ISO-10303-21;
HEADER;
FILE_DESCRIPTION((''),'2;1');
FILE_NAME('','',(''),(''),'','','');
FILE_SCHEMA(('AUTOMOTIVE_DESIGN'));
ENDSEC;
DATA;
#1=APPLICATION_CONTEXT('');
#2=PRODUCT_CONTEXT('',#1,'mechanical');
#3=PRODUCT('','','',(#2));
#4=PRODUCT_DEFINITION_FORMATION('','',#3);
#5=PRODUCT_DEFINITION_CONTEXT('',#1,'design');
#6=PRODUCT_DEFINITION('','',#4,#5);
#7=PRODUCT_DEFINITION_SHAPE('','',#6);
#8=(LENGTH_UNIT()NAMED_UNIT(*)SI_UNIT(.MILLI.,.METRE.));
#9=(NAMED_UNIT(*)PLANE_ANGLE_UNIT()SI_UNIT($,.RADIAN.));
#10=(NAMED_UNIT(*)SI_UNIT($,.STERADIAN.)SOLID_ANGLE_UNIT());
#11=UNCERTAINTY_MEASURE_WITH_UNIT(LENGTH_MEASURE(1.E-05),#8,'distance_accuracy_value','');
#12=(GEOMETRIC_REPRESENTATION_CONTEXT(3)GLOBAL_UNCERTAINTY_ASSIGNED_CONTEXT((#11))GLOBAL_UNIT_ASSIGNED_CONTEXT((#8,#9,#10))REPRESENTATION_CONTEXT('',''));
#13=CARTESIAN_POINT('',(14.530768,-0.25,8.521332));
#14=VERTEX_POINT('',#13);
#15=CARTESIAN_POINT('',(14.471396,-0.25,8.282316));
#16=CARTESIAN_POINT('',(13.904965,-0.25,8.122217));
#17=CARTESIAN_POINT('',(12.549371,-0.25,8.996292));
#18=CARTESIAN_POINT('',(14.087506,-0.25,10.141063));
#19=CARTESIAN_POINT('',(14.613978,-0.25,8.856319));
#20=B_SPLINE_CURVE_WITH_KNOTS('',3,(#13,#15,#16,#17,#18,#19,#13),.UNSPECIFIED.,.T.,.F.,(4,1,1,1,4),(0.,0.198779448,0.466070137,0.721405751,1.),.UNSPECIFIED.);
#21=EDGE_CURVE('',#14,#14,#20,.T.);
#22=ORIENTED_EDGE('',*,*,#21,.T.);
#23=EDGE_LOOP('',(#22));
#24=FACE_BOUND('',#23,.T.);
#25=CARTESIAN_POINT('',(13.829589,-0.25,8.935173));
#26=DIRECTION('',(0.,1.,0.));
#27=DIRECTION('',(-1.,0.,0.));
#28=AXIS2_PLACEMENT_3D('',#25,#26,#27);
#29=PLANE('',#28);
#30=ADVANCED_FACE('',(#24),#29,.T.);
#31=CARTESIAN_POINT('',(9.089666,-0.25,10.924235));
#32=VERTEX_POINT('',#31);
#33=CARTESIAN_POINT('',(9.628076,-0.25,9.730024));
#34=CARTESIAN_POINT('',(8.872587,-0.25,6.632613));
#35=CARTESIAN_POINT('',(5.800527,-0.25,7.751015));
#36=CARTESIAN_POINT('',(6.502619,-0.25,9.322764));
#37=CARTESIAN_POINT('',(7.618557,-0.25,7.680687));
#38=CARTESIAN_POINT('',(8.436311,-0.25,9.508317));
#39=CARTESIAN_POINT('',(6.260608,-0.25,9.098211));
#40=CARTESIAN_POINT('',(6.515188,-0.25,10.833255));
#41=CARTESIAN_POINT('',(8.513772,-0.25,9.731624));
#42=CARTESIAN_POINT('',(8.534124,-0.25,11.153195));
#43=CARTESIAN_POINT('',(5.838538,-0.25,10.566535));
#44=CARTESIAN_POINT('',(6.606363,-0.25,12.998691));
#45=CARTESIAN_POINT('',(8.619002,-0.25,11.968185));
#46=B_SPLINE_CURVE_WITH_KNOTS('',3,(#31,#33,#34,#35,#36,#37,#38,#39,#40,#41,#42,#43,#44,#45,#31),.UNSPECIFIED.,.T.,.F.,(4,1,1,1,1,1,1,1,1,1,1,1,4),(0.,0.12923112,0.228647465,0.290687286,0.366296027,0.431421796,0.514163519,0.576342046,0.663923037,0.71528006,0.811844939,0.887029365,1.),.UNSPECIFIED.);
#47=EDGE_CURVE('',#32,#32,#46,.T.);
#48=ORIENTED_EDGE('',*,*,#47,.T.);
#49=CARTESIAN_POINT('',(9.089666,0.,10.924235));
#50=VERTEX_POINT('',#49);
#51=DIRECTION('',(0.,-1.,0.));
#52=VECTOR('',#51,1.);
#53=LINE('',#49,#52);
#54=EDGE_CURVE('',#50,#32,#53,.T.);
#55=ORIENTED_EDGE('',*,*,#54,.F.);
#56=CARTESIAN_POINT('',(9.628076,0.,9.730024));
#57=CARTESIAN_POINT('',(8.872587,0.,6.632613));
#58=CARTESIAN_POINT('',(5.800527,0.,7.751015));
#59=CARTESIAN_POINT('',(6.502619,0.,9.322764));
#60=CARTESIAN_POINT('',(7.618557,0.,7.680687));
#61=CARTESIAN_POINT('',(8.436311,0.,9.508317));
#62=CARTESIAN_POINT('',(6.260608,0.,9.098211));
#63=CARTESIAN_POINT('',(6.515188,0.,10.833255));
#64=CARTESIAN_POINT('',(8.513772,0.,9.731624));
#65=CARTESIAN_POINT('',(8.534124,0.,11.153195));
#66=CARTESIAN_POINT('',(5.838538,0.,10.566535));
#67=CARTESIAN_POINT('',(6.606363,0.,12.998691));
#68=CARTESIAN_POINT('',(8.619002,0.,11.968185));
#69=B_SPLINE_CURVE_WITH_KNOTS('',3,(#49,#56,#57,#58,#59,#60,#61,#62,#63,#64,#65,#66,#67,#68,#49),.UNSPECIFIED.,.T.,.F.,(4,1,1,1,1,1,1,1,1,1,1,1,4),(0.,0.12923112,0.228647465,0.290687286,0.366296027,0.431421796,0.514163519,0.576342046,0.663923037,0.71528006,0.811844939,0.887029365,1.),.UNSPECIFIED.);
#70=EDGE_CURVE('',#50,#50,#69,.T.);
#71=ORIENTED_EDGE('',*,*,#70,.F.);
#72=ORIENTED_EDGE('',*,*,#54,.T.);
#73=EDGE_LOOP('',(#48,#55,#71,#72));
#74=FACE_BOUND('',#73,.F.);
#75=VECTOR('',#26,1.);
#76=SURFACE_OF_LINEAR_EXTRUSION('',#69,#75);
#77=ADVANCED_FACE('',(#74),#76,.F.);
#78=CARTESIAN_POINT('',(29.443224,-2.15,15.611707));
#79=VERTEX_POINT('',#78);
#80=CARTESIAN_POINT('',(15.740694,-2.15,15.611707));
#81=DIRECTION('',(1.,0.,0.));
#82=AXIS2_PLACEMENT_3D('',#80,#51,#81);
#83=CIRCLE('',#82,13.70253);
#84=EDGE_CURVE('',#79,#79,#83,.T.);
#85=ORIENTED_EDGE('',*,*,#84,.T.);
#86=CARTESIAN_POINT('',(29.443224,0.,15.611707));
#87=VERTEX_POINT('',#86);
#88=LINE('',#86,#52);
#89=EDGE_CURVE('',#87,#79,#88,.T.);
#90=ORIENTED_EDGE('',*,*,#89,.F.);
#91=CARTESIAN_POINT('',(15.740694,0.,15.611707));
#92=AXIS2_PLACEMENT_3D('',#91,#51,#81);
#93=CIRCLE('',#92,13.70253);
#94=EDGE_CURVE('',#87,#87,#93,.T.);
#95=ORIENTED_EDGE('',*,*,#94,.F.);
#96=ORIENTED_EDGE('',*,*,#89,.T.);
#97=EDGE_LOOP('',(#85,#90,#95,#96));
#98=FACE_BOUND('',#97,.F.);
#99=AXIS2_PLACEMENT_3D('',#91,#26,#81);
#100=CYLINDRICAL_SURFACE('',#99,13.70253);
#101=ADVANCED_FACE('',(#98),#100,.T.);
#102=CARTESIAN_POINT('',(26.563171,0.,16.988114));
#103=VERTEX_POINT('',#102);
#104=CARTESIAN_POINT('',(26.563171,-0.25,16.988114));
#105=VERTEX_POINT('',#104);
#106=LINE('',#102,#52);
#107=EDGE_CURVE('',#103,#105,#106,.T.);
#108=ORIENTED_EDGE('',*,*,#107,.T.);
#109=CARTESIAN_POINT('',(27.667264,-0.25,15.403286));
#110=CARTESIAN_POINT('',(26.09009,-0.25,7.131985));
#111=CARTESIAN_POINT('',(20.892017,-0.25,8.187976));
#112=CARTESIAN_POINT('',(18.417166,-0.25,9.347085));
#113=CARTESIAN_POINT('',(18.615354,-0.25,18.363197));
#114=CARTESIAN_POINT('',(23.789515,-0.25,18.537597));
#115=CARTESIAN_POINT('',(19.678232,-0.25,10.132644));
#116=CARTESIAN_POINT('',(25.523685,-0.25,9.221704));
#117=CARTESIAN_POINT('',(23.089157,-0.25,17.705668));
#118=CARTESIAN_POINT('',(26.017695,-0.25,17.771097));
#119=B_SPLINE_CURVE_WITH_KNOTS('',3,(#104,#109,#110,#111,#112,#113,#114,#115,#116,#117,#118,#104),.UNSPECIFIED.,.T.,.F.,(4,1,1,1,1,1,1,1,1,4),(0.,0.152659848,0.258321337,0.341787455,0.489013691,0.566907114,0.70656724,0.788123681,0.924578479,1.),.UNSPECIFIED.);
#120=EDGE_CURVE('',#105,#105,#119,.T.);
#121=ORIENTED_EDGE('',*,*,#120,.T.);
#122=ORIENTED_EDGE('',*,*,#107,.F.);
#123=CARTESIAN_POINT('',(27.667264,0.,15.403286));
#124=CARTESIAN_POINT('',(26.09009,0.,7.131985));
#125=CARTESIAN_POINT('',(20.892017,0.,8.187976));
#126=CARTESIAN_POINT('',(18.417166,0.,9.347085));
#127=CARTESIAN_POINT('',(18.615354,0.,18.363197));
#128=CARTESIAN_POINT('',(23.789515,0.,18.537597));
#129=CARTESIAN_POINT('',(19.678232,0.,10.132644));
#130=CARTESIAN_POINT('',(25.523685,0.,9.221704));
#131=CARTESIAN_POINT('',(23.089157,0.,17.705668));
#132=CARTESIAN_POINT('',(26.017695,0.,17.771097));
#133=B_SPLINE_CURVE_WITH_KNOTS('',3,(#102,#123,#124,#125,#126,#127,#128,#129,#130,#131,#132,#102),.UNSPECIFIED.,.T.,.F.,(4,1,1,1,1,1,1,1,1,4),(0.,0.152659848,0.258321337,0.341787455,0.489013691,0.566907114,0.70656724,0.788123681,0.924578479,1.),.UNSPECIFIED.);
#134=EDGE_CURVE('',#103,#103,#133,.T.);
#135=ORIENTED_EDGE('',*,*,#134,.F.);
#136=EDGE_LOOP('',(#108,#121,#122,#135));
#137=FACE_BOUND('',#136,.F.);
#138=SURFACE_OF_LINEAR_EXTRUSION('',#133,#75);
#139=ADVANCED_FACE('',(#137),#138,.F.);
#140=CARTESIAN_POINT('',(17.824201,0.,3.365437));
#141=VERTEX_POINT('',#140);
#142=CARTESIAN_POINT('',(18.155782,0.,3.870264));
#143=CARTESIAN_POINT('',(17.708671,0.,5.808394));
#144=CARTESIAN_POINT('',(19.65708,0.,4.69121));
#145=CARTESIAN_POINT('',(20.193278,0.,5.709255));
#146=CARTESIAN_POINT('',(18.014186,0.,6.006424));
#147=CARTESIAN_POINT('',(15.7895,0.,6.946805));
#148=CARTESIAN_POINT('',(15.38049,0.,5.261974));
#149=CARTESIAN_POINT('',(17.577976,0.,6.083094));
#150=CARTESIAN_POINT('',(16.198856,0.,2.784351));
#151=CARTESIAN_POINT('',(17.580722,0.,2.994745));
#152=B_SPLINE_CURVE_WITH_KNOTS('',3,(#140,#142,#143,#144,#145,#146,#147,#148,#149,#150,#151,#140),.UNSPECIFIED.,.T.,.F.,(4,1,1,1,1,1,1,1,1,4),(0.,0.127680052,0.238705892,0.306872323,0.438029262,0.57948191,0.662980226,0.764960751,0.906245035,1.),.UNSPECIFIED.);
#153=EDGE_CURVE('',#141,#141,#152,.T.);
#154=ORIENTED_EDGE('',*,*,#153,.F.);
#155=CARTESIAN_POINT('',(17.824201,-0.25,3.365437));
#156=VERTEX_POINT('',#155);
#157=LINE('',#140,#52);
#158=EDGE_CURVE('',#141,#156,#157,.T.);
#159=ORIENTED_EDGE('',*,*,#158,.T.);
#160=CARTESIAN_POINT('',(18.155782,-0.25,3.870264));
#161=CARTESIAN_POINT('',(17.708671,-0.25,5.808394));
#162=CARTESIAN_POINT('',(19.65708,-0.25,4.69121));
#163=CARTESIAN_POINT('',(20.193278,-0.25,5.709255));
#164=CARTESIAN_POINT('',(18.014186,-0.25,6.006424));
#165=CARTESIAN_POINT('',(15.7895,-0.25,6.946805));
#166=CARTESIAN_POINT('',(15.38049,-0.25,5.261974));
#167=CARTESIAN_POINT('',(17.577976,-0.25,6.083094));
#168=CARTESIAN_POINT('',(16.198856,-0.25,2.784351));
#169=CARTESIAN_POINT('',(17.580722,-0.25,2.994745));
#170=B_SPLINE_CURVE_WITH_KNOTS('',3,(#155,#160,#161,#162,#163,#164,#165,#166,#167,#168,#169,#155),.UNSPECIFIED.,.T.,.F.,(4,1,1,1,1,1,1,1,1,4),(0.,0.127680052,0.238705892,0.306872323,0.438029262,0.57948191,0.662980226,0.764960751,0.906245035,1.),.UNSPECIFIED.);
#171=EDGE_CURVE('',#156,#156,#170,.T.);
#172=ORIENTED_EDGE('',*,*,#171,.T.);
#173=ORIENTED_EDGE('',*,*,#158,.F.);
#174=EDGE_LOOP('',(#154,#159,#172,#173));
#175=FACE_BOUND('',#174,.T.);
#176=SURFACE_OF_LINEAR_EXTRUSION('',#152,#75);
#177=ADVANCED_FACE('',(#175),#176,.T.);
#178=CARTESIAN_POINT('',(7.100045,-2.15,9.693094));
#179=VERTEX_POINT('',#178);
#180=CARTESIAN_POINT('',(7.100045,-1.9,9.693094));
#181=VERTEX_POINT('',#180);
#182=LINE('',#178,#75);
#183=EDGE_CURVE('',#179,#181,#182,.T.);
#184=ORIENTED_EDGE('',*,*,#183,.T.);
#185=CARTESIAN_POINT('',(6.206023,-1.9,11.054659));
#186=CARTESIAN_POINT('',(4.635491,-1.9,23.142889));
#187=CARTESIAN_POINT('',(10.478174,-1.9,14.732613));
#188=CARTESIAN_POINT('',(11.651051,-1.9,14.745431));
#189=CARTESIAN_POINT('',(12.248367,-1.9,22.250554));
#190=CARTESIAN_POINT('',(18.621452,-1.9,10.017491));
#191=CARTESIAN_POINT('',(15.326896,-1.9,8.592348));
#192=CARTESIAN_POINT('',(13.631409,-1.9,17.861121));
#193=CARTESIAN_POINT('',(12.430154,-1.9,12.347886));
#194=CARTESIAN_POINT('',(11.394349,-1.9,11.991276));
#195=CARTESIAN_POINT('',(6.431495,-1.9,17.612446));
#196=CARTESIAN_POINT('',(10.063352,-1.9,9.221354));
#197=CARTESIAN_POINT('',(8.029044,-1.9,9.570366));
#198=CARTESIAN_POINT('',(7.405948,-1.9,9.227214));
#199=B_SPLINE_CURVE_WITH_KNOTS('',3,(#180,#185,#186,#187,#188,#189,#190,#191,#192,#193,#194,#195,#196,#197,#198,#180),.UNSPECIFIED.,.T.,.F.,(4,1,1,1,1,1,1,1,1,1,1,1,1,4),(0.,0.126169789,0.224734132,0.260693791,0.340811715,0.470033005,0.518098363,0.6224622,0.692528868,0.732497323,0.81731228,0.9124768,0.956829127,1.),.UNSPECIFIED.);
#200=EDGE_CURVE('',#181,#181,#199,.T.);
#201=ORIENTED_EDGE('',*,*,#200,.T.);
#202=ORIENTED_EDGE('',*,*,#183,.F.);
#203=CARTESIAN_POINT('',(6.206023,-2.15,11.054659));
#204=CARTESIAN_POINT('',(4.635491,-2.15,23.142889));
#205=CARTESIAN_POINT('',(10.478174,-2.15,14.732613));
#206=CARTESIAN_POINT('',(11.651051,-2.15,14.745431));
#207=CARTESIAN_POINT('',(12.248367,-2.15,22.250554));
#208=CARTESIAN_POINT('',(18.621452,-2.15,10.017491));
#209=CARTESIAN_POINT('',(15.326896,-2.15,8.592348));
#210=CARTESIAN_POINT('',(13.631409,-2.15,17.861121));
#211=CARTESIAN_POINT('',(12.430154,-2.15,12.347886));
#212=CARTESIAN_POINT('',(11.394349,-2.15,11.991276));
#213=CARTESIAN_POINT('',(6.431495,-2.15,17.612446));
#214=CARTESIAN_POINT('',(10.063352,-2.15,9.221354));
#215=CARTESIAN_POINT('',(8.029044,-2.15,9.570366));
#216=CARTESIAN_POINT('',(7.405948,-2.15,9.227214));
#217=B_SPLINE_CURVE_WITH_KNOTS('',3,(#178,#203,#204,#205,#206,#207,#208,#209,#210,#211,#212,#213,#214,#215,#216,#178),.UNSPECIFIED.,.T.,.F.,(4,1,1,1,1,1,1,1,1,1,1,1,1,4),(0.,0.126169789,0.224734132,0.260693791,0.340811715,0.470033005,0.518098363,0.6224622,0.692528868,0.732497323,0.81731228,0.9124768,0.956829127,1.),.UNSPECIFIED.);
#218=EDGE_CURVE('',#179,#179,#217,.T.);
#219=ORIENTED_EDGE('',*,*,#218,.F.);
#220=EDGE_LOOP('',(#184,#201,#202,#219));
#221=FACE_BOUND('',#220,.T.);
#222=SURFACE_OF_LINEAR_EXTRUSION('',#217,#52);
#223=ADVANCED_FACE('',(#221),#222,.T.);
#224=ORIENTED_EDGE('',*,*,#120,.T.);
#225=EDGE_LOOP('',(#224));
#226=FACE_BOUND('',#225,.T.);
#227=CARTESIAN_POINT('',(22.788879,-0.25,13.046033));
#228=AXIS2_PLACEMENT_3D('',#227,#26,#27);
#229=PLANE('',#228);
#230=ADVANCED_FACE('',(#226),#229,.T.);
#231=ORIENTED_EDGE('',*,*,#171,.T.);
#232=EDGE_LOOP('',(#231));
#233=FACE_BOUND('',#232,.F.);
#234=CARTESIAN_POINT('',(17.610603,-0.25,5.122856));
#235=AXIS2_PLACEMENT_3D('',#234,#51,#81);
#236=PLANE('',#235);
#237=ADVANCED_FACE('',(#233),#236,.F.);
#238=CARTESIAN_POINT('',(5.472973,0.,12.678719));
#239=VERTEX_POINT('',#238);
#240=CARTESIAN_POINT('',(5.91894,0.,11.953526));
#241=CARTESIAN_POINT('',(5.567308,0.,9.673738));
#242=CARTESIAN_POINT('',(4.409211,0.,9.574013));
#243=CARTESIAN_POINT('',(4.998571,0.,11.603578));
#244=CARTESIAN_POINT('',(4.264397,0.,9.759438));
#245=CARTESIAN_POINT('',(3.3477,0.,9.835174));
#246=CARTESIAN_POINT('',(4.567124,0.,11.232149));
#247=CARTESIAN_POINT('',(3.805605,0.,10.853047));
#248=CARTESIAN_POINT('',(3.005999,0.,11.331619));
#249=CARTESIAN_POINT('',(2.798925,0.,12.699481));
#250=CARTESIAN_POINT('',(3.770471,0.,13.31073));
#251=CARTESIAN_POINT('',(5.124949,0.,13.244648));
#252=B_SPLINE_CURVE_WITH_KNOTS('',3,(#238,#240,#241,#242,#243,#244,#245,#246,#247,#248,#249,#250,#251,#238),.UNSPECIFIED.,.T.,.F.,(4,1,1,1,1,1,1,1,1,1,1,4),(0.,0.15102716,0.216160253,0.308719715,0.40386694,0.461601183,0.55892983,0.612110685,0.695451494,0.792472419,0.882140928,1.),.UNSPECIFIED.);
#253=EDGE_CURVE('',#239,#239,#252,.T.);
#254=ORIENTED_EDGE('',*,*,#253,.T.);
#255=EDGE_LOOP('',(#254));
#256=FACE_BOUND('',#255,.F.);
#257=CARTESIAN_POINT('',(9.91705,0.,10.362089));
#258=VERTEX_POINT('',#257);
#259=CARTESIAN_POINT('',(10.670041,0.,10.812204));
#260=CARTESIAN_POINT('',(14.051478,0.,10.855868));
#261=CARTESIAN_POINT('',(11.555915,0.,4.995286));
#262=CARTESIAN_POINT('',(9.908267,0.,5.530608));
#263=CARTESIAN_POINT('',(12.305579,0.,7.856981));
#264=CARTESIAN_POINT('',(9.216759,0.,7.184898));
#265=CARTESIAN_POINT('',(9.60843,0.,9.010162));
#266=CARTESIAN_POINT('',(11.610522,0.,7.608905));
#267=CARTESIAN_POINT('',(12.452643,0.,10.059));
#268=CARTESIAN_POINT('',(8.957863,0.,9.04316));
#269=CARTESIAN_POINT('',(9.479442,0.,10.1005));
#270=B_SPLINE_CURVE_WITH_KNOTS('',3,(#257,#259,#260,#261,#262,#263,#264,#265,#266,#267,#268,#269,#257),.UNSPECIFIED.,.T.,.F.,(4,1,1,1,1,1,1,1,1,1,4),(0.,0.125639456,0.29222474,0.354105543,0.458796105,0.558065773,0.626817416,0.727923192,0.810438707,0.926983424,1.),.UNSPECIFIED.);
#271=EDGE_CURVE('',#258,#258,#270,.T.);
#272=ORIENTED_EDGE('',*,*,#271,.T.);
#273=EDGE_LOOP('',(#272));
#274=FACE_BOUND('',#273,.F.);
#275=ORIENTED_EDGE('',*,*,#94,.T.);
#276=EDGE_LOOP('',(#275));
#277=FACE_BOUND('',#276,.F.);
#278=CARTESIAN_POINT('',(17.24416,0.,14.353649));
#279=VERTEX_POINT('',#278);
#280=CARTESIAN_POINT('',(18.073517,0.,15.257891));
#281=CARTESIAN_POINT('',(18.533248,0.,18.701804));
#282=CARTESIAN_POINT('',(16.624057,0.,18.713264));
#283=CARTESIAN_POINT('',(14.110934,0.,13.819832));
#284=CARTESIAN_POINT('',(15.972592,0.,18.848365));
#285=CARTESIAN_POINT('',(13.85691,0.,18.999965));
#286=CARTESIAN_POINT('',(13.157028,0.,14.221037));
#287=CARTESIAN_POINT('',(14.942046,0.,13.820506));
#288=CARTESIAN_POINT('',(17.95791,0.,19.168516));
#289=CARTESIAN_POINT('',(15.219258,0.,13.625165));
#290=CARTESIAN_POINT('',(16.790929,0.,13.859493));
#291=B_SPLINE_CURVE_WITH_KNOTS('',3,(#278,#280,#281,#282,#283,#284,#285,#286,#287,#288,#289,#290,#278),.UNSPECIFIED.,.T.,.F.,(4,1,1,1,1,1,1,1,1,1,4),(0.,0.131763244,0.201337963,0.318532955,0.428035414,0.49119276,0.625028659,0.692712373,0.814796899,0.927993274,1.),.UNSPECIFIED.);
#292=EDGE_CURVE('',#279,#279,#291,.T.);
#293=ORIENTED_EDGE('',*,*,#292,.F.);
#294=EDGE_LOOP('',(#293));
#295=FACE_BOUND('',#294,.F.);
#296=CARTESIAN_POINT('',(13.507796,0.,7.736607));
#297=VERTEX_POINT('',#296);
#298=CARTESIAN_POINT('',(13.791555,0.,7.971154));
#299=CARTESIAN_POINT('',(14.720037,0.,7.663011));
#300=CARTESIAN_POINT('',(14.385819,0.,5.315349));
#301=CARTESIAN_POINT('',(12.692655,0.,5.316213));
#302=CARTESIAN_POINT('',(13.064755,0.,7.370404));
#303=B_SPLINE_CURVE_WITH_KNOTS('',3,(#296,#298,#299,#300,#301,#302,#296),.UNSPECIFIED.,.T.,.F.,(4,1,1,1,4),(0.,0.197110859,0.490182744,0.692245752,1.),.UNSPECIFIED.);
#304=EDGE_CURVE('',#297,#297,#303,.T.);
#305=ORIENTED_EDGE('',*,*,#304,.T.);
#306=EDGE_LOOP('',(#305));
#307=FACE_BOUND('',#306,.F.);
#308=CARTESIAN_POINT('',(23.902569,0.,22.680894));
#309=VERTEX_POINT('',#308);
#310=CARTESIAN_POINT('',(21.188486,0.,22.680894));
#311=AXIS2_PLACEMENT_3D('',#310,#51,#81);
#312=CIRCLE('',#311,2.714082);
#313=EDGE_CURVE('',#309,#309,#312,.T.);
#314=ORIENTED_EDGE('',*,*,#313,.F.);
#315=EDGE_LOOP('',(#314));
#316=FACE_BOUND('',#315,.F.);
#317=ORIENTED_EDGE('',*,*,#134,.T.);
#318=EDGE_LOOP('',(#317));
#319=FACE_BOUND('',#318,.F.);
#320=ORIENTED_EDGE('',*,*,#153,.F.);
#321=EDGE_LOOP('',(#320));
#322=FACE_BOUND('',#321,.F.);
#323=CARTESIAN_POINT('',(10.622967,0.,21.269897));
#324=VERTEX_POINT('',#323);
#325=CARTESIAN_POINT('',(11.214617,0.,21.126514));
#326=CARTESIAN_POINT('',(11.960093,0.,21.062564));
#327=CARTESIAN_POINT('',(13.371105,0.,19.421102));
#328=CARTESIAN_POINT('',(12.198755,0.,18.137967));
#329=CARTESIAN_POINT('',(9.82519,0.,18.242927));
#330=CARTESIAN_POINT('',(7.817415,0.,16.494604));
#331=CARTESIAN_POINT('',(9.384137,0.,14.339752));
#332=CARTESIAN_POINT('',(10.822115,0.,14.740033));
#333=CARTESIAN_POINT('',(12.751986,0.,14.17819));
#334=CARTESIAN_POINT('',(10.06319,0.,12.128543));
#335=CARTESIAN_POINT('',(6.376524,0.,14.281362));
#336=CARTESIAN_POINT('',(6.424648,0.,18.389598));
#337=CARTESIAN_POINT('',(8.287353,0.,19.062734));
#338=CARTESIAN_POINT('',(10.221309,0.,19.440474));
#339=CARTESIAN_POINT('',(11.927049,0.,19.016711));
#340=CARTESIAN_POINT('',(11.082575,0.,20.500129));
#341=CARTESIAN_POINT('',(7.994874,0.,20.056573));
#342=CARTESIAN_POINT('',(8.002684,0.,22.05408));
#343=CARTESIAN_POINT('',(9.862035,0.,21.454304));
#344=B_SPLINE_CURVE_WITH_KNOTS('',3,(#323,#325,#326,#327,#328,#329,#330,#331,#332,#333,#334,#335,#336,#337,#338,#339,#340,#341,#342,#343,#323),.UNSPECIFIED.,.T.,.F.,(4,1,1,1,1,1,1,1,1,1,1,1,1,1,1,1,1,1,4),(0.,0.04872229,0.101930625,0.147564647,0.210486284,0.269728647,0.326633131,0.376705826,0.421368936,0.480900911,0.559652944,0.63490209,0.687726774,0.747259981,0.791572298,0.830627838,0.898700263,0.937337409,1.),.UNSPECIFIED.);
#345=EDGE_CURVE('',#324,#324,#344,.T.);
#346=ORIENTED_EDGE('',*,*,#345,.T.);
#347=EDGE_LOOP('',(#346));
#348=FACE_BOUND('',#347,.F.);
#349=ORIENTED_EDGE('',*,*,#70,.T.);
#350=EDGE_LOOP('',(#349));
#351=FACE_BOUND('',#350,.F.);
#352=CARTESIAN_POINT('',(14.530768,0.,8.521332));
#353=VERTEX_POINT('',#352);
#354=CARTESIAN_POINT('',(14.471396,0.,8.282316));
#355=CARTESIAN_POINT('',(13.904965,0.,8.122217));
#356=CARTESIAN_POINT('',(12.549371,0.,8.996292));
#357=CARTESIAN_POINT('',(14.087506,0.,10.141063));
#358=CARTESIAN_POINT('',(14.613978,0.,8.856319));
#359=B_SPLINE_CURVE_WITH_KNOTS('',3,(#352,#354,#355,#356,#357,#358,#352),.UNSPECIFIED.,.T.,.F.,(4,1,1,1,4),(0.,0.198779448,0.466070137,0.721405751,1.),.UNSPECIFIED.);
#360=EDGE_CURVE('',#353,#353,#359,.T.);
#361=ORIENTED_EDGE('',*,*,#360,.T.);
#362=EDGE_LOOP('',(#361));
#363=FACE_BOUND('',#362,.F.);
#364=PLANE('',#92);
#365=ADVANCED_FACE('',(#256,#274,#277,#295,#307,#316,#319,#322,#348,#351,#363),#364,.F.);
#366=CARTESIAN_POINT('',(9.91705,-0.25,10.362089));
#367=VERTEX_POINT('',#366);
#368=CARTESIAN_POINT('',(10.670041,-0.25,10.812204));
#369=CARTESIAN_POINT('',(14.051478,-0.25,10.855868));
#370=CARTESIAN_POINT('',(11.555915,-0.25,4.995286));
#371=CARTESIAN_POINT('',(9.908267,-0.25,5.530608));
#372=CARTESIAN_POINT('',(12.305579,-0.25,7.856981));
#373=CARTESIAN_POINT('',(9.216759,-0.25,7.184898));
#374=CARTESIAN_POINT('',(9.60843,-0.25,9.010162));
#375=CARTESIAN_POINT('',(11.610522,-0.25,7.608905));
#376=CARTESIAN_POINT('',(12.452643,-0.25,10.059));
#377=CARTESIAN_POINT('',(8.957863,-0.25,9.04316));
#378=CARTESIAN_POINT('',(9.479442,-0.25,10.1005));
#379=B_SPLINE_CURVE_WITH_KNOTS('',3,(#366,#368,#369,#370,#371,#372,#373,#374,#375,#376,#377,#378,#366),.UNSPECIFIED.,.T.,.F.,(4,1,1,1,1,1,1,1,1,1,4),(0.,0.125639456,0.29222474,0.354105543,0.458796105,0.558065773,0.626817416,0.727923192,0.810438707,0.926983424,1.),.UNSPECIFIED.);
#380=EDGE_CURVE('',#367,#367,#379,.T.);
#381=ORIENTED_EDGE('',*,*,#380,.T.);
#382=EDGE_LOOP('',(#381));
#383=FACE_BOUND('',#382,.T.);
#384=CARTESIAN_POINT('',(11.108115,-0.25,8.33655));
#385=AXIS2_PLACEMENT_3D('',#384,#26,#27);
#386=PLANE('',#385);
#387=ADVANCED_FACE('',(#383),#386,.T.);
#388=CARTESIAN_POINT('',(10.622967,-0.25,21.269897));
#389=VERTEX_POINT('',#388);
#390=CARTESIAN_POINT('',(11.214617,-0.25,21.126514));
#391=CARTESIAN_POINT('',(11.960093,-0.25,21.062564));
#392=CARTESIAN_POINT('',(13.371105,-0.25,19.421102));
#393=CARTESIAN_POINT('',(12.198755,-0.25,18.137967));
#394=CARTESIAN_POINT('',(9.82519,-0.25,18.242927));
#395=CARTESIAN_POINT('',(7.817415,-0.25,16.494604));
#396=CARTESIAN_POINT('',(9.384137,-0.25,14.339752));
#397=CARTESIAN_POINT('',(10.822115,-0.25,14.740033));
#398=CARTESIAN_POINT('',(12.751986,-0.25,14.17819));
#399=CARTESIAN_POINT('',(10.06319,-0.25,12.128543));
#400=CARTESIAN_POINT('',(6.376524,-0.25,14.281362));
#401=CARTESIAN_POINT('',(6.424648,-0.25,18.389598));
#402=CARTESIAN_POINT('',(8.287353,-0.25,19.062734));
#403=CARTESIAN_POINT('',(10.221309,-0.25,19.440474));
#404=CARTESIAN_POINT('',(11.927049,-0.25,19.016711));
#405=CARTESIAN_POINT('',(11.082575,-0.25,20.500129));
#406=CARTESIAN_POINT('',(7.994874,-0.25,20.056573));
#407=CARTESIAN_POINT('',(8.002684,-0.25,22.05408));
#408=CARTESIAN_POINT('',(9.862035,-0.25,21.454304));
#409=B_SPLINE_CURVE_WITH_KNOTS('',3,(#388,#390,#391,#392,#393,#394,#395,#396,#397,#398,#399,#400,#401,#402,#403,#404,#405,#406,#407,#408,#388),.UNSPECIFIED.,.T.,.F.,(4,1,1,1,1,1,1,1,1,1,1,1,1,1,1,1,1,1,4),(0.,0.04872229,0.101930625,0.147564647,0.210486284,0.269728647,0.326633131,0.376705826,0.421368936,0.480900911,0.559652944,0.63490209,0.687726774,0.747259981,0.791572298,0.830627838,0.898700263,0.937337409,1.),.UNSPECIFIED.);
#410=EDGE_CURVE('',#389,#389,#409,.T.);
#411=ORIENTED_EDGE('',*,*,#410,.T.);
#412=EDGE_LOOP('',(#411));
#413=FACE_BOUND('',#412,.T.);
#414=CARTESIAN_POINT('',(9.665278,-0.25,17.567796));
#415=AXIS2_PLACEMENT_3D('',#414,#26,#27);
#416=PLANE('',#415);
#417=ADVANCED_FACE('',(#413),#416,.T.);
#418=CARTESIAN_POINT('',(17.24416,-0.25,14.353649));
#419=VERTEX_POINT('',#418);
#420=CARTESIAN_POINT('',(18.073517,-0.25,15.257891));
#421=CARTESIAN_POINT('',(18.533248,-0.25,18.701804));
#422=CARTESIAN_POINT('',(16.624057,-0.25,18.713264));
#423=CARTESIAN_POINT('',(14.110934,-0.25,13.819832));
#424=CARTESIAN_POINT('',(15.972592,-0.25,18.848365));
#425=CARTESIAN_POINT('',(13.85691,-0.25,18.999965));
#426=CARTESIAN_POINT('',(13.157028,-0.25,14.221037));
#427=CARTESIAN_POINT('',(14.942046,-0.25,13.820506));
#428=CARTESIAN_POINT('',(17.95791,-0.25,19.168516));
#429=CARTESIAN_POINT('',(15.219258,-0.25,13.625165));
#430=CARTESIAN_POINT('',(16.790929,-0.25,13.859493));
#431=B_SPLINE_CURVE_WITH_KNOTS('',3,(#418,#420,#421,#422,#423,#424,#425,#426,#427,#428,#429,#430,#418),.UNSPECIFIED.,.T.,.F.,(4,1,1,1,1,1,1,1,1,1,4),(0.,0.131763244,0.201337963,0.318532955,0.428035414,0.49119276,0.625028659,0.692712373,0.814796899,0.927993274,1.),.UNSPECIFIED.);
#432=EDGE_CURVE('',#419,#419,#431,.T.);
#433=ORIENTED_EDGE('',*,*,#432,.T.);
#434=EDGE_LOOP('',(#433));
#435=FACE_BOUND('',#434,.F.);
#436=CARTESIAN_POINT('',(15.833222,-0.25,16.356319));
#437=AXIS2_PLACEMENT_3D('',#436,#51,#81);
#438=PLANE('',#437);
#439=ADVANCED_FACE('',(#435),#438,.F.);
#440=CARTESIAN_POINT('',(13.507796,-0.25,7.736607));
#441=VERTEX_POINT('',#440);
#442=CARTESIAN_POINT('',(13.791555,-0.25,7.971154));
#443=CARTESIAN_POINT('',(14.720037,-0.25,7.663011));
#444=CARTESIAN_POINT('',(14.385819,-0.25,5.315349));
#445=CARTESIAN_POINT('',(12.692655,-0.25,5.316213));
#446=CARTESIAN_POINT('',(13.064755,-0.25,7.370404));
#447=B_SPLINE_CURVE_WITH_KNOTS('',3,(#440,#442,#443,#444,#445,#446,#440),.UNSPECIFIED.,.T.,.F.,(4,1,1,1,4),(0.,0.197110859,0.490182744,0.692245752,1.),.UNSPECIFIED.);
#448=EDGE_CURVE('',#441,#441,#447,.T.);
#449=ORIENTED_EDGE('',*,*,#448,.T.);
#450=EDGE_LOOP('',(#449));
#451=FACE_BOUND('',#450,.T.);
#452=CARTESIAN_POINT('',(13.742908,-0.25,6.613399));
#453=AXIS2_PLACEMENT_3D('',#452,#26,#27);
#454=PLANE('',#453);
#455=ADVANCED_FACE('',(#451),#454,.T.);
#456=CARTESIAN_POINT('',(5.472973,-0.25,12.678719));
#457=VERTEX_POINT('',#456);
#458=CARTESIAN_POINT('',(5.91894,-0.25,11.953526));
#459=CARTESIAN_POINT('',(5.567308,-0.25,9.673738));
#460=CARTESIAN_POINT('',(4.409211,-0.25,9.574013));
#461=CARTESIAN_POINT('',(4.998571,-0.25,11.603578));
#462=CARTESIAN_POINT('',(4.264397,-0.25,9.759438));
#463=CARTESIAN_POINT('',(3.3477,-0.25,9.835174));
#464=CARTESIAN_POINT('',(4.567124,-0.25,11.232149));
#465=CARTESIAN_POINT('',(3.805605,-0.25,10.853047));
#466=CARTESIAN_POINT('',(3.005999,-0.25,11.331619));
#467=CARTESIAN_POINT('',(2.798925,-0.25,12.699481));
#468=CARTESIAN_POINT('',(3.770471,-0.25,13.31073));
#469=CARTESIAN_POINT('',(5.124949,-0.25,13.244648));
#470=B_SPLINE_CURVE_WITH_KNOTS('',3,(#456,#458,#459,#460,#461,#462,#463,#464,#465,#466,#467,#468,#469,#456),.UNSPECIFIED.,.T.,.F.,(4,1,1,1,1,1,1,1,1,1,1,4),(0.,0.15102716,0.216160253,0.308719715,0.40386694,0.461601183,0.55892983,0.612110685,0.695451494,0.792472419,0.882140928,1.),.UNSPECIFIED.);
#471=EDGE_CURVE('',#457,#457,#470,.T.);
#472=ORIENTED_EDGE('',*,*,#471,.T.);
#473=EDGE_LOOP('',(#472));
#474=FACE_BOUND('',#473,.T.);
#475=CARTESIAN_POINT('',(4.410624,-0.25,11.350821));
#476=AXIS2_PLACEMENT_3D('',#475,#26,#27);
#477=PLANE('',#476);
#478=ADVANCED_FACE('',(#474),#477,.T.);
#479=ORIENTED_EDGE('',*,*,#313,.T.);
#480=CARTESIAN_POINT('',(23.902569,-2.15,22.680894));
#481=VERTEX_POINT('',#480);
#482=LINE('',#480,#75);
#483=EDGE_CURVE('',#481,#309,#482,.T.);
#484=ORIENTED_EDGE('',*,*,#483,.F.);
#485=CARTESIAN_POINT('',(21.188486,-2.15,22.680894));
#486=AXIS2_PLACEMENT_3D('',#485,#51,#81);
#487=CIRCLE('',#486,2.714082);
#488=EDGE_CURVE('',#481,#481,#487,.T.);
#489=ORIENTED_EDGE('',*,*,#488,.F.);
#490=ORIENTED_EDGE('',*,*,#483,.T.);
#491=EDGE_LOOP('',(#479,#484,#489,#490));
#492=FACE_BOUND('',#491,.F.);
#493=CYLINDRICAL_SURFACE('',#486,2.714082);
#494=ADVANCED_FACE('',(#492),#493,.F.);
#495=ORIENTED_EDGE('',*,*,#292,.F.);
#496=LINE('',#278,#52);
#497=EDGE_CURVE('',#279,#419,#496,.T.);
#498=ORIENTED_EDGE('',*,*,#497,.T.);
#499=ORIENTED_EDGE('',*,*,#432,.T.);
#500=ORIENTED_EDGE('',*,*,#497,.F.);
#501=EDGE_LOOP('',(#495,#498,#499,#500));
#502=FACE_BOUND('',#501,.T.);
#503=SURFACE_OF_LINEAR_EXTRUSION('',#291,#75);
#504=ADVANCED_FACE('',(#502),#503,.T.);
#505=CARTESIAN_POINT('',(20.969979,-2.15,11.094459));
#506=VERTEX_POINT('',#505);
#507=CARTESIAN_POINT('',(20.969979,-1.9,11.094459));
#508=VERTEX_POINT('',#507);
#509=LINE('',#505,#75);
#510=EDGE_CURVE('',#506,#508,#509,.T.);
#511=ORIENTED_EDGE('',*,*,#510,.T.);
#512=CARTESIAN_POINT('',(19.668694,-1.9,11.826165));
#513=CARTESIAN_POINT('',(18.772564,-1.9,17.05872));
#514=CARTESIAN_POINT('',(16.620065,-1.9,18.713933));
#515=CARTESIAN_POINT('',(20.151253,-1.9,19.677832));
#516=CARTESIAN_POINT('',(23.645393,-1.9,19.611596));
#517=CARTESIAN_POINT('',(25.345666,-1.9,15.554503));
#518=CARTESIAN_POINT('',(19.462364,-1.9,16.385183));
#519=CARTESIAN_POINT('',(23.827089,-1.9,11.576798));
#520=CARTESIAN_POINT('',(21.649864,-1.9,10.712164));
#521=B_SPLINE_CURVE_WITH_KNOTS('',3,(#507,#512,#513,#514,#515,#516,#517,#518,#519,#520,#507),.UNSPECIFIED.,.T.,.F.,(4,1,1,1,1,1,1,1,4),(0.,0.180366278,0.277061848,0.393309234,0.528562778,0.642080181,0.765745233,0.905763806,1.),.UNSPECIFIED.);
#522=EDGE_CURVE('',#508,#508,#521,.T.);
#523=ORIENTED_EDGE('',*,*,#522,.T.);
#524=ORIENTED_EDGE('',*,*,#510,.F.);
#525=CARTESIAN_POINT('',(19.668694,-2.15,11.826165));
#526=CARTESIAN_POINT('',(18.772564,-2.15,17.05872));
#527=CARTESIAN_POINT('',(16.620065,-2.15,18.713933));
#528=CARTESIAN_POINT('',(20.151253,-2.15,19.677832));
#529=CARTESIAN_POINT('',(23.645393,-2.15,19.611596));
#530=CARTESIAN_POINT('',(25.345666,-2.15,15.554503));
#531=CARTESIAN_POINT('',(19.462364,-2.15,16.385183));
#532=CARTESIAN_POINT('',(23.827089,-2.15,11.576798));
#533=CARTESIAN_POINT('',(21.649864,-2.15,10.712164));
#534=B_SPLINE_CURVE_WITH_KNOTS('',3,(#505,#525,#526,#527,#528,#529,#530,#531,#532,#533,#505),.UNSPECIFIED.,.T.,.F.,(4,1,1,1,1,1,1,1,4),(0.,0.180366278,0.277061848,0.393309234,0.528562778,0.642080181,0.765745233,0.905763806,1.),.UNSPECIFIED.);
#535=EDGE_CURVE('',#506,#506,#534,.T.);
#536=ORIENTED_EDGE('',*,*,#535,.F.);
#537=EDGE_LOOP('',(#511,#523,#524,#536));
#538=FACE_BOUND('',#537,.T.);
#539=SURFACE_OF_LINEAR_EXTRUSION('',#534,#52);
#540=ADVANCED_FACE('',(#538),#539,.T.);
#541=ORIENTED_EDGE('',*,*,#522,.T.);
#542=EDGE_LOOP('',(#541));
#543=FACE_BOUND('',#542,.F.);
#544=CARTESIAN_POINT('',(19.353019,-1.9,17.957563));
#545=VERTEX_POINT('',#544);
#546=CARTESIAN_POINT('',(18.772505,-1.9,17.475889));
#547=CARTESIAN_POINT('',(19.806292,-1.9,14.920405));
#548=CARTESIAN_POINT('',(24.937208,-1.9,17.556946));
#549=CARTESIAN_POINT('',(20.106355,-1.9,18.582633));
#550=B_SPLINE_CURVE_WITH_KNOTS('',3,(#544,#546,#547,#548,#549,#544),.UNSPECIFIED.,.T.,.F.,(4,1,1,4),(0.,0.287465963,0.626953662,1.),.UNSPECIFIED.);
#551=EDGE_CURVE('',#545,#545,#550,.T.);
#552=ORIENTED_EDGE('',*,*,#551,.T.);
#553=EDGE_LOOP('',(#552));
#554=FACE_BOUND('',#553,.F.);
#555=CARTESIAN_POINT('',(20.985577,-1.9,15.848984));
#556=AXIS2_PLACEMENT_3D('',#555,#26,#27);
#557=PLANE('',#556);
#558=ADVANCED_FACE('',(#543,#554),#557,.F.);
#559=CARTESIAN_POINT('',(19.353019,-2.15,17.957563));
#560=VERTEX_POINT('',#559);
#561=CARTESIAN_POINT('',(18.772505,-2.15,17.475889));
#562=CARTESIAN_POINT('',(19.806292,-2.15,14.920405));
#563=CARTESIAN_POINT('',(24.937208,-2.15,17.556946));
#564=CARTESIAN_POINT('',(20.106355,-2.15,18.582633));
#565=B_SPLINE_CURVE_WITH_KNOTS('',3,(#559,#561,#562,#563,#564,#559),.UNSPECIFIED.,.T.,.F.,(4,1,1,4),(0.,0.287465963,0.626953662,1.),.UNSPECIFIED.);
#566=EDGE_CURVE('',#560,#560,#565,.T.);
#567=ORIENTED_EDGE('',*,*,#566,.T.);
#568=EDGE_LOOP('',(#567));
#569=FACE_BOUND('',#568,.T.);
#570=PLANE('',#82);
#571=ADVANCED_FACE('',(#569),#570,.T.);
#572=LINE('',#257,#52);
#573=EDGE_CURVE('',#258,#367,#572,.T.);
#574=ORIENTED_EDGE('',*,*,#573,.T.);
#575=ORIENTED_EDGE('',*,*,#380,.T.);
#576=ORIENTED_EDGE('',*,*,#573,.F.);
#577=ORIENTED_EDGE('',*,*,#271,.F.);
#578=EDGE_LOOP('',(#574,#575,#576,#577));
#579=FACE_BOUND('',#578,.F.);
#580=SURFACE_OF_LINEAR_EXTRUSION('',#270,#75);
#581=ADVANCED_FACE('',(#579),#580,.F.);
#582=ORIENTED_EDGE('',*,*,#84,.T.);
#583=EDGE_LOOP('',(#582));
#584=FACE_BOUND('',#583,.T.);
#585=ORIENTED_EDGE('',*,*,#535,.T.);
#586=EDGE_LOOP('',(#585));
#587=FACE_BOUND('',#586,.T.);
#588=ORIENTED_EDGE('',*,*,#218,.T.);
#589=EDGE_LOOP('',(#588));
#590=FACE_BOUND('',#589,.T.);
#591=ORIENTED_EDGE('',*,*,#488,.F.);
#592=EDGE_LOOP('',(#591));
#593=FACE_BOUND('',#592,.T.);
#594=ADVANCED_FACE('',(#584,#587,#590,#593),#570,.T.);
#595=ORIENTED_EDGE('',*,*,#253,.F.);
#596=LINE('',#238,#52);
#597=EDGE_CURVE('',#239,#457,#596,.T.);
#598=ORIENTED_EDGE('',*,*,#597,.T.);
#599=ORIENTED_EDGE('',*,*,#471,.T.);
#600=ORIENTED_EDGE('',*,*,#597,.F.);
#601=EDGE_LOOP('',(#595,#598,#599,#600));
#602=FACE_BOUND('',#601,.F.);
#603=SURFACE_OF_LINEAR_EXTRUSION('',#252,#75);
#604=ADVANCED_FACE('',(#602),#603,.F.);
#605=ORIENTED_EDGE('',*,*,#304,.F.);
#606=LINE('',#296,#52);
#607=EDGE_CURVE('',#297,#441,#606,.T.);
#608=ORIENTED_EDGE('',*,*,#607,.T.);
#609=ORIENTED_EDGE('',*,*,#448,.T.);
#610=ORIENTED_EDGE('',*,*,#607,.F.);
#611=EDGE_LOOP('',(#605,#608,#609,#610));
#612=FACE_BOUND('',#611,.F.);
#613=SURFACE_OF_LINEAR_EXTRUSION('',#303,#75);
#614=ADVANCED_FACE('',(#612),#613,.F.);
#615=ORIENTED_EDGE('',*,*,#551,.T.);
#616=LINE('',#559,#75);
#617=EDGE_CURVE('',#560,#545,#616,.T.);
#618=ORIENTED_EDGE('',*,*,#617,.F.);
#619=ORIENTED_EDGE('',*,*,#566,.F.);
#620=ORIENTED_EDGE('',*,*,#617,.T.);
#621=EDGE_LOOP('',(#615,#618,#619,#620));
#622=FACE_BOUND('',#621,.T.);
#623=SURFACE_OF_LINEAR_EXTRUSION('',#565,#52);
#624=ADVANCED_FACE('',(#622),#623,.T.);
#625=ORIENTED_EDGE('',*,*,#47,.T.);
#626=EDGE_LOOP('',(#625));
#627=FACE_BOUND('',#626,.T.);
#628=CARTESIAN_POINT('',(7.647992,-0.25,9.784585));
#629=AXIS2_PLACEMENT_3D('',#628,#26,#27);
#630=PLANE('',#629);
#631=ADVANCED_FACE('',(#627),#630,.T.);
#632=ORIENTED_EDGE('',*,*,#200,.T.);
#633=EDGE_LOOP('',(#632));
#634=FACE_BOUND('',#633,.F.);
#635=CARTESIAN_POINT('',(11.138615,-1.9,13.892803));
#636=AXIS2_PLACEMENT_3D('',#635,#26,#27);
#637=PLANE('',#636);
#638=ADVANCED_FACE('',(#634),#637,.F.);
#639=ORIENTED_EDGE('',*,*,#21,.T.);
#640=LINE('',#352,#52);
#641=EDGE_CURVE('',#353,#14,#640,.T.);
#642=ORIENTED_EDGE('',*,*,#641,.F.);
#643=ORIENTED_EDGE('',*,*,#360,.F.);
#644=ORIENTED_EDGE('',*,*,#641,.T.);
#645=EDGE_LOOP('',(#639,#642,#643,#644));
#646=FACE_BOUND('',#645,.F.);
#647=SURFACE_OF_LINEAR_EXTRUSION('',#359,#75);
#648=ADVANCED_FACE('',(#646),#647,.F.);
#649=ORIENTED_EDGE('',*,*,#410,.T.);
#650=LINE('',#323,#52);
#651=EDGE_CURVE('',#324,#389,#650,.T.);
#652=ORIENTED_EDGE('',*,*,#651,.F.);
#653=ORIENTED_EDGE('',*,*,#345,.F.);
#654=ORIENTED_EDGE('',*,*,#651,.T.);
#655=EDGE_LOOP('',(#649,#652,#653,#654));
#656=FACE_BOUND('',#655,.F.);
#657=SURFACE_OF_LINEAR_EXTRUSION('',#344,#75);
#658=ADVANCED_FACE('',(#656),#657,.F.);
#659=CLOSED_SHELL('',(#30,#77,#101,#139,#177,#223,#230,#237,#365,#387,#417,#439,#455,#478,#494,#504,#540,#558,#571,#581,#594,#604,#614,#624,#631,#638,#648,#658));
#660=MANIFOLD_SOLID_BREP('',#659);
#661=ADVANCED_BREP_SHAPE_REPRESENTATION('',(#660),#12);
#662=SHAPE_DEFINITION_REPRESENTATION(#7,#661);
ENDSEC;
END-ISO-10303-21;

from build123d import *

# Parameters (mm, degrees)
F0_R     = 13.7025298736
F1_DEPTH = 2.15
F2_R     = 2.714082418
F3_DEPTH = 2.15
F5_DEPTH = 0.25
F7_DEPTH = 0.25


with BuildPart() as f1:
    # F0 (on Front) → F1 (new body)
    with BuildSketch(Plane.XZ):
        with Locations((15.7406944782, 15.6117072329)):
            Circle(F0_R)
    extrude(amount=F1_DEPTH)

    # F2 (on face) → F3 (cut, through all)
    with BuildSketch(Plane.XZ.offset(2.15)):
        with Locations((21.1884863675, 22.6808935404)):
            Circle(F2_R)
    extrude(amount=-F3_DEPTH, mode=Mode.SUBTRACT)

    # F4 (on face) → F5 (cut)
    with BuildSketch(Plane.XZ.offset(2.15)):
        with BuildLine():
            add(Edge.make_bspline(
                [(20.969979465, 11.0944593325), (19.6686940002, 11.8261650207), (18.7725636109, 17.058719556), (16.6200652785, 18.7139333936), (20.1512534821, 19.6778322827), (23.6453928304, 19.6115960219), (25.3456660389, 15.5545028776), (19.4623643548, 16.3851829709), (23.8270891214, 11.5767983275), (21.6498636997, 10.7121641519), (20.969979465, 11.0944593325)],
                knots=[0, 0, 0, 0, 0.1803662779, 0.2770618475, 0.3933092341, 0.5285627779, 0.6420801813, 0.7657452328, 0.9057638065, 1, 1, 1, 1], degree=3))
        make_face()
        with BuildLine():
            add(Edge.make_bspline(
                [(19.3530190736, 17.9575625807), (18.7725053887, 17.4758891415), (19.8062918587, 14.9204054811), (24.9372077458, 17.5569457723), (20.1063552329, 18.5826331486), (19.3530190736, 17.9575625807)],
                knots=[0, 0, 0, 0, 0.2874659631, 0.6269536616, 1, 1, 1, 1], degree=3))
        make_face(mode=Mode.SUBTRACT)
        with BuildLine():
            add(Edge.make_bspline(
                [(7.1000447497, 9.6930935979), (6.2060231345, 11.0546586687), (4.635491382, 23.1428887107), (10.4781744873, 14.7326130962), (11.6510512387, 14.7454314222), (12.2483670562, 22.2505538038), (18.6214517034, 10.017491092), (15.326895794, 8.5923478879), (13.6314088949, 17.8611212803), (12.4301541285, 12.347886401), (11.3943487379, 11.9912759175), (6.4314952582, 17.6124455226), (10.0633517044, 9.2213543201), (8.0290435543, 9.5703663563), (7.405947564, 9.227213825), (7.1000447497, 9.6930935979)],
                knots=[0, 0, 0, 0, 0.1261697887, 0.2247341317, 0.2606937908, 0.3408117151, 0.470033005, 0.5180983627, 0.6224621997, 0.692528868, 0.7324973233, 0.8173122803, 0.9124768002, 0.9568291272, 1, 1, 1, 1], degree=3))
        make_face()
    extrude(amount=-F5_DEPTH, mode=Mode.SUBTRACT)

    # F6 (on face) → F7 (cut)
    with BuildSketch(Plane(origin=(0, 0, 0), x_dir=(-1, 0, 0), z_dir=(0, 1, 0))):
        with BuildLine():
            add(Edge.make_bspline(
                [(-26.5631712973, 16.9881135225), (-27.6672635199, 15.4032855964), (-26.0900903264, 7.1319848163), (-20.8920168481, 8.1879762375), (-18.4171658117, 9.3470854635), (-18.6153540116, 18.3631971839), (-23.7895154172, 18.5375966479), (-19.6782321996, 10.1326438327), (-25.5236849813, 9.2217041554), (-23.0891574789, 17.7056681129), (-26.0176950928, 17.7710969584), (-26.5631712973, 16.9881135225)],
                knots=[0, 0, 0, 0, 0.1526598481, 0.2583213369, 0.3417874551, 0.4890136911, 0.5669071136, 0.7065672404, 0.7881236809, 0.9245784792, 1, 1, 1, 1], degree=3))
        make_face()
        with BuildLine():
            add(Edge.make_bspline(
                [(-17.2441601753, 14.3536487594), (-18.0735168005, 15.2578911205), (-18.5332476062, 18.7018037657), (-16.6240566222, 18.7132639449), (-14.1109341666, 13.8198317898), (-15.9725924949, 18.8483651486), (-13.8569099077, 18.9999653717), (-13.1570282712, 14.2210374748), (-14.9420460073, 13.8205062804), (-17.9579100326, 19.1685159676), (-15.2192577137, 13.6251653315), (-16.7909286595, 13.8594932616), (-17.2441601753, 14.3536487594)],
                knots=[0, 0, 0, 0, 0.1317632443, 0.2013379628, 0.3185329551, 0.4280354139, 0.4911927601, 0.6250286594, 0.692712373, 0.814796899, 0.9279932744, 1, 1, 1, 1], degree=3))
        make_face()
        with BuildLine():
            add(Edge.make_bspline(
                [(-10.6229670346, 21.269896999), (-11.2146173003, 21.1265144658), (-11.960093346, 21.0625641311), (-13.3711046799, 19.4211019672), (-12.1987551079, 18.1379668398), (-9.8251895189, 18.2429265459), (-7.8174148756, 16.494603972), (-9.3841371692, 14.3397519424), (-10.8221147591, 14.740032561), (-12.7519860919, 14.1781902309), (-10.063189625, 12.1285434311), (-6.376524158, 14.2813615624), (-6.4246482612, 18.389598017), (-8.2873525165, 19.0627342262), (-10.2213087271, 19.4404737062), (-11.9270488938, 19.0167109034), (-11.0825749154, 20.5001287765), (-7.9948743566, 20.0565727349), (-8.0026835536, 22.0540802213), (-9.8620352582, 21.454303788), (-10.6229670346, 21.269896999)],
                knots=[0, 0, 0, 0, 0.0487222897, 0.1019306251, 0.1475646473, 0.2104862836, 0.2697286474, 0.3266331311, 0.3767058263, 0.4213689356, 0.480900911, 0.5596529439, 0.6349020896, 0.6877267743, 0.7472599813, 0.7915722979, 0.8306278379, 0.8987002631, 0.9373374093, 1, 1, 1, 1], degree=3))
        make_face()
        with BuildLine():
            add(Edge.make_bspline(
                [(-5.4729734547, 12.6787191257), (-5.9189395604, 11.9535261727), (-5.5673075346, 9.6737380069), (-4.4092114859, 9.57401324), (-4.9985711458, 11.6035784572), (-4.2643968121, 9.7594384131), (-3.3477001841, 9.8351738755), (-4.567123924, 11.2321493753), (-3.8056047267, 10.8530468988), (-3.0059991333, 11.3316192394), (-2.7989251351, 12.6994808142), (-3.7704714824, 13.3107301271), (-5.1249489576, 13.2446475888), (-5.4729734547, 12.6787191257)],
                knots=[0, 0, 0, 0, 0.15102716, 0.2161602529, 0.3087197147, 0.4038669398, 0.4616011833, 0.5589298303, 0.6121106846, 0.6954514937, 0.792472419, 0.8821409279, 1, 1, 1, 1], degree=3))
        make_face()
        with BuildLine():
            add(Edge.make_bspline(
                [(-4.9047088251, 12.2564947233), (-4.9201478554, 12.0077788319), (-5.3682127483, 11.3231562239), (-3.3532892424, 11.1420141864), (-3.259531029, 12.8481373481), (-5.1598277233, 12.9100408469), (-4.8923319849, 12.4558800963), (-4.9047088251, 12.2564947233)],
                knots=[0, 0, 0, 0, 0.1761886909, 0.4121455335, 0.6251723713, 0.8587567216, 1, 1, 1, 1], degree=3))
        make_face(mode=Mode.SUBTRACT)
        with BuildLine():
            add(Edge.make_bspline(
                [(-9.0896664187, 10.9242349863), (-9.6280758618, 9.7300235763), (-8.8725871659, 6.6326127893), (-5.8005265463, 7.7510149656), (-6.5026185119, 9.3227635884), (-7.6185572582, 7.6806867488), (-8.4363105515, 9.5083166294), (-6.2606081721, 9.0982105467), (-6.5151877757, 10.8332548971), (-8.5137717403, 9.7316240415), (-8.5341241225, 11.1531953803), (-5.838538378, 10.566535107), (-6.6063631912, 12.9986913879), (-8.6190022597, 11.9681849322), (-9.0896664187, 10.9242349863)],
                knots=[0, 0, 0, 0, 0.1292311204, 0.228647465, 0.2906872861, 0.3662960272, 0.4314217963, 0.5141635186, 0.5763420459, 0.6639230366, 0.7152800602, 0.811844939, 0.8870293652, 1, 1, 1, 1], degree=3))
        make_face()
        with BuildLine():
            add(Edge.make_bspline(
                [(-13.5077955201, 7.7366074547), (-13.7915547077, 7.9711537633), (-14.7200371236, 7.6630107914), (-14.3858190897, 5.3153486645), (-12.6926548305, 5.3162134536), (-13.0647550111, 7.3704042779), (-13.5077955201, 7.7366074547)],
                knots=[0, 0, 0, 0, 0.197110859, 0.4901827438, 0.6922457524, 1, 1, 1, 1], degree=3))
        make_face()
        with BuildLine():
            add(Edge.make_bspline(
                [(-17.8242009133, 3.3654372673), (-18.1557822929, 3.8702639365), (-17.7086713079, 5.8083936083), (-19.6570800881, 4.6912100745), (-20.193277967, 5.7092554293), (-18.0141855715, 6.0064239145), (-15.7894999423, 6.9468049269), (-15.3804898671, 5.2619740889), (-17.5779755286, 6.0830938826), (-16.1988560265, 2.7843505397), (-17.5807219981, 2.9947450111), (-17.8242009133, 3.3654372673)],
                knots=[0, 0, 0, 0, 0.1276800524, 0.2387058916, 0.306872323, 0.4380292624, 0.5794819105, 0.6629802258, 0.7649607509, 0.906245035, 1, 1, 1, 1], degree=3))
        make_face()
        with BuildLine():
            add(Edge.make_bspline(
                [(-14.5307676867, 8.5213324055), (-14.4713961793, 8.2823162053), (-13.9049649441, 8.1222168365), (-12.5493711306, 8.9962919169), (-14.0875056966, 10.1410626894), (-14.6139783035, 8.8563194446), (-14.5307676867, 8.5213324055)],
                knots=[0, 0, 0, 0, 0.1987794482, 0.4660701372, 0.721405751, 1, 1, 1, 1], degree=3))
        make_face()
        with BuildLine():
            add(Edge.make_bspline(
                [(-9.9170496687, 10.3620886803), (-10.6700405843, 10.8122043524), (-14.0514779082, 10.8558675897), (-11.5559150187, 4.9952855243), (-9.9082668925, 5.5306077282), (-12.3055789927, 7.8569814251), (-9.216758962, 7.1848978128), (-9.6084304722, 9.0101617962), (-11.6105215079, 7.6089053642), (-12.4526429435, 10.0589995534), (-8.9578625943, 9.0431600298), (-9.4794417683, 10.1004996356), (-9.9170496687, 10.3620886803)],
                knots=[0, 0, 0, 0, 0.1256394564, 0.2922247401, 0.3541055427, 0.4587961047, 0.5580657731, 0.6268174163, 0.7279231918, 0.8104387069, 0.9269834236, 1, 1, 1, 1], degree=3))
        make_face()
        with BuildLine():
            add(Edge.make_bspline(
                [(-4.9047088251, 12.2564947233), (-4.9201478554, 12.0077788319), (-5.3682127483, 11.3231562239), (-3.3532892424, 11.1420141864), (-3.259531029, 12.8481373481), (-5.1598277233, 12.9100408469), (-4.8923319849, 12.4558800963), (-4.9047088251, 12.2564947233)],
                knots=[0, 0, 0, 0, 0.1761886909, 0.4121455335, 0.6251723713, 0.8587567216, 1, 1, 1, 1], degree=3))
        make_face()
    extrude(amount=-F7_DEPTH, mode=Mode.SUBTRACT)


solid = f1.part
